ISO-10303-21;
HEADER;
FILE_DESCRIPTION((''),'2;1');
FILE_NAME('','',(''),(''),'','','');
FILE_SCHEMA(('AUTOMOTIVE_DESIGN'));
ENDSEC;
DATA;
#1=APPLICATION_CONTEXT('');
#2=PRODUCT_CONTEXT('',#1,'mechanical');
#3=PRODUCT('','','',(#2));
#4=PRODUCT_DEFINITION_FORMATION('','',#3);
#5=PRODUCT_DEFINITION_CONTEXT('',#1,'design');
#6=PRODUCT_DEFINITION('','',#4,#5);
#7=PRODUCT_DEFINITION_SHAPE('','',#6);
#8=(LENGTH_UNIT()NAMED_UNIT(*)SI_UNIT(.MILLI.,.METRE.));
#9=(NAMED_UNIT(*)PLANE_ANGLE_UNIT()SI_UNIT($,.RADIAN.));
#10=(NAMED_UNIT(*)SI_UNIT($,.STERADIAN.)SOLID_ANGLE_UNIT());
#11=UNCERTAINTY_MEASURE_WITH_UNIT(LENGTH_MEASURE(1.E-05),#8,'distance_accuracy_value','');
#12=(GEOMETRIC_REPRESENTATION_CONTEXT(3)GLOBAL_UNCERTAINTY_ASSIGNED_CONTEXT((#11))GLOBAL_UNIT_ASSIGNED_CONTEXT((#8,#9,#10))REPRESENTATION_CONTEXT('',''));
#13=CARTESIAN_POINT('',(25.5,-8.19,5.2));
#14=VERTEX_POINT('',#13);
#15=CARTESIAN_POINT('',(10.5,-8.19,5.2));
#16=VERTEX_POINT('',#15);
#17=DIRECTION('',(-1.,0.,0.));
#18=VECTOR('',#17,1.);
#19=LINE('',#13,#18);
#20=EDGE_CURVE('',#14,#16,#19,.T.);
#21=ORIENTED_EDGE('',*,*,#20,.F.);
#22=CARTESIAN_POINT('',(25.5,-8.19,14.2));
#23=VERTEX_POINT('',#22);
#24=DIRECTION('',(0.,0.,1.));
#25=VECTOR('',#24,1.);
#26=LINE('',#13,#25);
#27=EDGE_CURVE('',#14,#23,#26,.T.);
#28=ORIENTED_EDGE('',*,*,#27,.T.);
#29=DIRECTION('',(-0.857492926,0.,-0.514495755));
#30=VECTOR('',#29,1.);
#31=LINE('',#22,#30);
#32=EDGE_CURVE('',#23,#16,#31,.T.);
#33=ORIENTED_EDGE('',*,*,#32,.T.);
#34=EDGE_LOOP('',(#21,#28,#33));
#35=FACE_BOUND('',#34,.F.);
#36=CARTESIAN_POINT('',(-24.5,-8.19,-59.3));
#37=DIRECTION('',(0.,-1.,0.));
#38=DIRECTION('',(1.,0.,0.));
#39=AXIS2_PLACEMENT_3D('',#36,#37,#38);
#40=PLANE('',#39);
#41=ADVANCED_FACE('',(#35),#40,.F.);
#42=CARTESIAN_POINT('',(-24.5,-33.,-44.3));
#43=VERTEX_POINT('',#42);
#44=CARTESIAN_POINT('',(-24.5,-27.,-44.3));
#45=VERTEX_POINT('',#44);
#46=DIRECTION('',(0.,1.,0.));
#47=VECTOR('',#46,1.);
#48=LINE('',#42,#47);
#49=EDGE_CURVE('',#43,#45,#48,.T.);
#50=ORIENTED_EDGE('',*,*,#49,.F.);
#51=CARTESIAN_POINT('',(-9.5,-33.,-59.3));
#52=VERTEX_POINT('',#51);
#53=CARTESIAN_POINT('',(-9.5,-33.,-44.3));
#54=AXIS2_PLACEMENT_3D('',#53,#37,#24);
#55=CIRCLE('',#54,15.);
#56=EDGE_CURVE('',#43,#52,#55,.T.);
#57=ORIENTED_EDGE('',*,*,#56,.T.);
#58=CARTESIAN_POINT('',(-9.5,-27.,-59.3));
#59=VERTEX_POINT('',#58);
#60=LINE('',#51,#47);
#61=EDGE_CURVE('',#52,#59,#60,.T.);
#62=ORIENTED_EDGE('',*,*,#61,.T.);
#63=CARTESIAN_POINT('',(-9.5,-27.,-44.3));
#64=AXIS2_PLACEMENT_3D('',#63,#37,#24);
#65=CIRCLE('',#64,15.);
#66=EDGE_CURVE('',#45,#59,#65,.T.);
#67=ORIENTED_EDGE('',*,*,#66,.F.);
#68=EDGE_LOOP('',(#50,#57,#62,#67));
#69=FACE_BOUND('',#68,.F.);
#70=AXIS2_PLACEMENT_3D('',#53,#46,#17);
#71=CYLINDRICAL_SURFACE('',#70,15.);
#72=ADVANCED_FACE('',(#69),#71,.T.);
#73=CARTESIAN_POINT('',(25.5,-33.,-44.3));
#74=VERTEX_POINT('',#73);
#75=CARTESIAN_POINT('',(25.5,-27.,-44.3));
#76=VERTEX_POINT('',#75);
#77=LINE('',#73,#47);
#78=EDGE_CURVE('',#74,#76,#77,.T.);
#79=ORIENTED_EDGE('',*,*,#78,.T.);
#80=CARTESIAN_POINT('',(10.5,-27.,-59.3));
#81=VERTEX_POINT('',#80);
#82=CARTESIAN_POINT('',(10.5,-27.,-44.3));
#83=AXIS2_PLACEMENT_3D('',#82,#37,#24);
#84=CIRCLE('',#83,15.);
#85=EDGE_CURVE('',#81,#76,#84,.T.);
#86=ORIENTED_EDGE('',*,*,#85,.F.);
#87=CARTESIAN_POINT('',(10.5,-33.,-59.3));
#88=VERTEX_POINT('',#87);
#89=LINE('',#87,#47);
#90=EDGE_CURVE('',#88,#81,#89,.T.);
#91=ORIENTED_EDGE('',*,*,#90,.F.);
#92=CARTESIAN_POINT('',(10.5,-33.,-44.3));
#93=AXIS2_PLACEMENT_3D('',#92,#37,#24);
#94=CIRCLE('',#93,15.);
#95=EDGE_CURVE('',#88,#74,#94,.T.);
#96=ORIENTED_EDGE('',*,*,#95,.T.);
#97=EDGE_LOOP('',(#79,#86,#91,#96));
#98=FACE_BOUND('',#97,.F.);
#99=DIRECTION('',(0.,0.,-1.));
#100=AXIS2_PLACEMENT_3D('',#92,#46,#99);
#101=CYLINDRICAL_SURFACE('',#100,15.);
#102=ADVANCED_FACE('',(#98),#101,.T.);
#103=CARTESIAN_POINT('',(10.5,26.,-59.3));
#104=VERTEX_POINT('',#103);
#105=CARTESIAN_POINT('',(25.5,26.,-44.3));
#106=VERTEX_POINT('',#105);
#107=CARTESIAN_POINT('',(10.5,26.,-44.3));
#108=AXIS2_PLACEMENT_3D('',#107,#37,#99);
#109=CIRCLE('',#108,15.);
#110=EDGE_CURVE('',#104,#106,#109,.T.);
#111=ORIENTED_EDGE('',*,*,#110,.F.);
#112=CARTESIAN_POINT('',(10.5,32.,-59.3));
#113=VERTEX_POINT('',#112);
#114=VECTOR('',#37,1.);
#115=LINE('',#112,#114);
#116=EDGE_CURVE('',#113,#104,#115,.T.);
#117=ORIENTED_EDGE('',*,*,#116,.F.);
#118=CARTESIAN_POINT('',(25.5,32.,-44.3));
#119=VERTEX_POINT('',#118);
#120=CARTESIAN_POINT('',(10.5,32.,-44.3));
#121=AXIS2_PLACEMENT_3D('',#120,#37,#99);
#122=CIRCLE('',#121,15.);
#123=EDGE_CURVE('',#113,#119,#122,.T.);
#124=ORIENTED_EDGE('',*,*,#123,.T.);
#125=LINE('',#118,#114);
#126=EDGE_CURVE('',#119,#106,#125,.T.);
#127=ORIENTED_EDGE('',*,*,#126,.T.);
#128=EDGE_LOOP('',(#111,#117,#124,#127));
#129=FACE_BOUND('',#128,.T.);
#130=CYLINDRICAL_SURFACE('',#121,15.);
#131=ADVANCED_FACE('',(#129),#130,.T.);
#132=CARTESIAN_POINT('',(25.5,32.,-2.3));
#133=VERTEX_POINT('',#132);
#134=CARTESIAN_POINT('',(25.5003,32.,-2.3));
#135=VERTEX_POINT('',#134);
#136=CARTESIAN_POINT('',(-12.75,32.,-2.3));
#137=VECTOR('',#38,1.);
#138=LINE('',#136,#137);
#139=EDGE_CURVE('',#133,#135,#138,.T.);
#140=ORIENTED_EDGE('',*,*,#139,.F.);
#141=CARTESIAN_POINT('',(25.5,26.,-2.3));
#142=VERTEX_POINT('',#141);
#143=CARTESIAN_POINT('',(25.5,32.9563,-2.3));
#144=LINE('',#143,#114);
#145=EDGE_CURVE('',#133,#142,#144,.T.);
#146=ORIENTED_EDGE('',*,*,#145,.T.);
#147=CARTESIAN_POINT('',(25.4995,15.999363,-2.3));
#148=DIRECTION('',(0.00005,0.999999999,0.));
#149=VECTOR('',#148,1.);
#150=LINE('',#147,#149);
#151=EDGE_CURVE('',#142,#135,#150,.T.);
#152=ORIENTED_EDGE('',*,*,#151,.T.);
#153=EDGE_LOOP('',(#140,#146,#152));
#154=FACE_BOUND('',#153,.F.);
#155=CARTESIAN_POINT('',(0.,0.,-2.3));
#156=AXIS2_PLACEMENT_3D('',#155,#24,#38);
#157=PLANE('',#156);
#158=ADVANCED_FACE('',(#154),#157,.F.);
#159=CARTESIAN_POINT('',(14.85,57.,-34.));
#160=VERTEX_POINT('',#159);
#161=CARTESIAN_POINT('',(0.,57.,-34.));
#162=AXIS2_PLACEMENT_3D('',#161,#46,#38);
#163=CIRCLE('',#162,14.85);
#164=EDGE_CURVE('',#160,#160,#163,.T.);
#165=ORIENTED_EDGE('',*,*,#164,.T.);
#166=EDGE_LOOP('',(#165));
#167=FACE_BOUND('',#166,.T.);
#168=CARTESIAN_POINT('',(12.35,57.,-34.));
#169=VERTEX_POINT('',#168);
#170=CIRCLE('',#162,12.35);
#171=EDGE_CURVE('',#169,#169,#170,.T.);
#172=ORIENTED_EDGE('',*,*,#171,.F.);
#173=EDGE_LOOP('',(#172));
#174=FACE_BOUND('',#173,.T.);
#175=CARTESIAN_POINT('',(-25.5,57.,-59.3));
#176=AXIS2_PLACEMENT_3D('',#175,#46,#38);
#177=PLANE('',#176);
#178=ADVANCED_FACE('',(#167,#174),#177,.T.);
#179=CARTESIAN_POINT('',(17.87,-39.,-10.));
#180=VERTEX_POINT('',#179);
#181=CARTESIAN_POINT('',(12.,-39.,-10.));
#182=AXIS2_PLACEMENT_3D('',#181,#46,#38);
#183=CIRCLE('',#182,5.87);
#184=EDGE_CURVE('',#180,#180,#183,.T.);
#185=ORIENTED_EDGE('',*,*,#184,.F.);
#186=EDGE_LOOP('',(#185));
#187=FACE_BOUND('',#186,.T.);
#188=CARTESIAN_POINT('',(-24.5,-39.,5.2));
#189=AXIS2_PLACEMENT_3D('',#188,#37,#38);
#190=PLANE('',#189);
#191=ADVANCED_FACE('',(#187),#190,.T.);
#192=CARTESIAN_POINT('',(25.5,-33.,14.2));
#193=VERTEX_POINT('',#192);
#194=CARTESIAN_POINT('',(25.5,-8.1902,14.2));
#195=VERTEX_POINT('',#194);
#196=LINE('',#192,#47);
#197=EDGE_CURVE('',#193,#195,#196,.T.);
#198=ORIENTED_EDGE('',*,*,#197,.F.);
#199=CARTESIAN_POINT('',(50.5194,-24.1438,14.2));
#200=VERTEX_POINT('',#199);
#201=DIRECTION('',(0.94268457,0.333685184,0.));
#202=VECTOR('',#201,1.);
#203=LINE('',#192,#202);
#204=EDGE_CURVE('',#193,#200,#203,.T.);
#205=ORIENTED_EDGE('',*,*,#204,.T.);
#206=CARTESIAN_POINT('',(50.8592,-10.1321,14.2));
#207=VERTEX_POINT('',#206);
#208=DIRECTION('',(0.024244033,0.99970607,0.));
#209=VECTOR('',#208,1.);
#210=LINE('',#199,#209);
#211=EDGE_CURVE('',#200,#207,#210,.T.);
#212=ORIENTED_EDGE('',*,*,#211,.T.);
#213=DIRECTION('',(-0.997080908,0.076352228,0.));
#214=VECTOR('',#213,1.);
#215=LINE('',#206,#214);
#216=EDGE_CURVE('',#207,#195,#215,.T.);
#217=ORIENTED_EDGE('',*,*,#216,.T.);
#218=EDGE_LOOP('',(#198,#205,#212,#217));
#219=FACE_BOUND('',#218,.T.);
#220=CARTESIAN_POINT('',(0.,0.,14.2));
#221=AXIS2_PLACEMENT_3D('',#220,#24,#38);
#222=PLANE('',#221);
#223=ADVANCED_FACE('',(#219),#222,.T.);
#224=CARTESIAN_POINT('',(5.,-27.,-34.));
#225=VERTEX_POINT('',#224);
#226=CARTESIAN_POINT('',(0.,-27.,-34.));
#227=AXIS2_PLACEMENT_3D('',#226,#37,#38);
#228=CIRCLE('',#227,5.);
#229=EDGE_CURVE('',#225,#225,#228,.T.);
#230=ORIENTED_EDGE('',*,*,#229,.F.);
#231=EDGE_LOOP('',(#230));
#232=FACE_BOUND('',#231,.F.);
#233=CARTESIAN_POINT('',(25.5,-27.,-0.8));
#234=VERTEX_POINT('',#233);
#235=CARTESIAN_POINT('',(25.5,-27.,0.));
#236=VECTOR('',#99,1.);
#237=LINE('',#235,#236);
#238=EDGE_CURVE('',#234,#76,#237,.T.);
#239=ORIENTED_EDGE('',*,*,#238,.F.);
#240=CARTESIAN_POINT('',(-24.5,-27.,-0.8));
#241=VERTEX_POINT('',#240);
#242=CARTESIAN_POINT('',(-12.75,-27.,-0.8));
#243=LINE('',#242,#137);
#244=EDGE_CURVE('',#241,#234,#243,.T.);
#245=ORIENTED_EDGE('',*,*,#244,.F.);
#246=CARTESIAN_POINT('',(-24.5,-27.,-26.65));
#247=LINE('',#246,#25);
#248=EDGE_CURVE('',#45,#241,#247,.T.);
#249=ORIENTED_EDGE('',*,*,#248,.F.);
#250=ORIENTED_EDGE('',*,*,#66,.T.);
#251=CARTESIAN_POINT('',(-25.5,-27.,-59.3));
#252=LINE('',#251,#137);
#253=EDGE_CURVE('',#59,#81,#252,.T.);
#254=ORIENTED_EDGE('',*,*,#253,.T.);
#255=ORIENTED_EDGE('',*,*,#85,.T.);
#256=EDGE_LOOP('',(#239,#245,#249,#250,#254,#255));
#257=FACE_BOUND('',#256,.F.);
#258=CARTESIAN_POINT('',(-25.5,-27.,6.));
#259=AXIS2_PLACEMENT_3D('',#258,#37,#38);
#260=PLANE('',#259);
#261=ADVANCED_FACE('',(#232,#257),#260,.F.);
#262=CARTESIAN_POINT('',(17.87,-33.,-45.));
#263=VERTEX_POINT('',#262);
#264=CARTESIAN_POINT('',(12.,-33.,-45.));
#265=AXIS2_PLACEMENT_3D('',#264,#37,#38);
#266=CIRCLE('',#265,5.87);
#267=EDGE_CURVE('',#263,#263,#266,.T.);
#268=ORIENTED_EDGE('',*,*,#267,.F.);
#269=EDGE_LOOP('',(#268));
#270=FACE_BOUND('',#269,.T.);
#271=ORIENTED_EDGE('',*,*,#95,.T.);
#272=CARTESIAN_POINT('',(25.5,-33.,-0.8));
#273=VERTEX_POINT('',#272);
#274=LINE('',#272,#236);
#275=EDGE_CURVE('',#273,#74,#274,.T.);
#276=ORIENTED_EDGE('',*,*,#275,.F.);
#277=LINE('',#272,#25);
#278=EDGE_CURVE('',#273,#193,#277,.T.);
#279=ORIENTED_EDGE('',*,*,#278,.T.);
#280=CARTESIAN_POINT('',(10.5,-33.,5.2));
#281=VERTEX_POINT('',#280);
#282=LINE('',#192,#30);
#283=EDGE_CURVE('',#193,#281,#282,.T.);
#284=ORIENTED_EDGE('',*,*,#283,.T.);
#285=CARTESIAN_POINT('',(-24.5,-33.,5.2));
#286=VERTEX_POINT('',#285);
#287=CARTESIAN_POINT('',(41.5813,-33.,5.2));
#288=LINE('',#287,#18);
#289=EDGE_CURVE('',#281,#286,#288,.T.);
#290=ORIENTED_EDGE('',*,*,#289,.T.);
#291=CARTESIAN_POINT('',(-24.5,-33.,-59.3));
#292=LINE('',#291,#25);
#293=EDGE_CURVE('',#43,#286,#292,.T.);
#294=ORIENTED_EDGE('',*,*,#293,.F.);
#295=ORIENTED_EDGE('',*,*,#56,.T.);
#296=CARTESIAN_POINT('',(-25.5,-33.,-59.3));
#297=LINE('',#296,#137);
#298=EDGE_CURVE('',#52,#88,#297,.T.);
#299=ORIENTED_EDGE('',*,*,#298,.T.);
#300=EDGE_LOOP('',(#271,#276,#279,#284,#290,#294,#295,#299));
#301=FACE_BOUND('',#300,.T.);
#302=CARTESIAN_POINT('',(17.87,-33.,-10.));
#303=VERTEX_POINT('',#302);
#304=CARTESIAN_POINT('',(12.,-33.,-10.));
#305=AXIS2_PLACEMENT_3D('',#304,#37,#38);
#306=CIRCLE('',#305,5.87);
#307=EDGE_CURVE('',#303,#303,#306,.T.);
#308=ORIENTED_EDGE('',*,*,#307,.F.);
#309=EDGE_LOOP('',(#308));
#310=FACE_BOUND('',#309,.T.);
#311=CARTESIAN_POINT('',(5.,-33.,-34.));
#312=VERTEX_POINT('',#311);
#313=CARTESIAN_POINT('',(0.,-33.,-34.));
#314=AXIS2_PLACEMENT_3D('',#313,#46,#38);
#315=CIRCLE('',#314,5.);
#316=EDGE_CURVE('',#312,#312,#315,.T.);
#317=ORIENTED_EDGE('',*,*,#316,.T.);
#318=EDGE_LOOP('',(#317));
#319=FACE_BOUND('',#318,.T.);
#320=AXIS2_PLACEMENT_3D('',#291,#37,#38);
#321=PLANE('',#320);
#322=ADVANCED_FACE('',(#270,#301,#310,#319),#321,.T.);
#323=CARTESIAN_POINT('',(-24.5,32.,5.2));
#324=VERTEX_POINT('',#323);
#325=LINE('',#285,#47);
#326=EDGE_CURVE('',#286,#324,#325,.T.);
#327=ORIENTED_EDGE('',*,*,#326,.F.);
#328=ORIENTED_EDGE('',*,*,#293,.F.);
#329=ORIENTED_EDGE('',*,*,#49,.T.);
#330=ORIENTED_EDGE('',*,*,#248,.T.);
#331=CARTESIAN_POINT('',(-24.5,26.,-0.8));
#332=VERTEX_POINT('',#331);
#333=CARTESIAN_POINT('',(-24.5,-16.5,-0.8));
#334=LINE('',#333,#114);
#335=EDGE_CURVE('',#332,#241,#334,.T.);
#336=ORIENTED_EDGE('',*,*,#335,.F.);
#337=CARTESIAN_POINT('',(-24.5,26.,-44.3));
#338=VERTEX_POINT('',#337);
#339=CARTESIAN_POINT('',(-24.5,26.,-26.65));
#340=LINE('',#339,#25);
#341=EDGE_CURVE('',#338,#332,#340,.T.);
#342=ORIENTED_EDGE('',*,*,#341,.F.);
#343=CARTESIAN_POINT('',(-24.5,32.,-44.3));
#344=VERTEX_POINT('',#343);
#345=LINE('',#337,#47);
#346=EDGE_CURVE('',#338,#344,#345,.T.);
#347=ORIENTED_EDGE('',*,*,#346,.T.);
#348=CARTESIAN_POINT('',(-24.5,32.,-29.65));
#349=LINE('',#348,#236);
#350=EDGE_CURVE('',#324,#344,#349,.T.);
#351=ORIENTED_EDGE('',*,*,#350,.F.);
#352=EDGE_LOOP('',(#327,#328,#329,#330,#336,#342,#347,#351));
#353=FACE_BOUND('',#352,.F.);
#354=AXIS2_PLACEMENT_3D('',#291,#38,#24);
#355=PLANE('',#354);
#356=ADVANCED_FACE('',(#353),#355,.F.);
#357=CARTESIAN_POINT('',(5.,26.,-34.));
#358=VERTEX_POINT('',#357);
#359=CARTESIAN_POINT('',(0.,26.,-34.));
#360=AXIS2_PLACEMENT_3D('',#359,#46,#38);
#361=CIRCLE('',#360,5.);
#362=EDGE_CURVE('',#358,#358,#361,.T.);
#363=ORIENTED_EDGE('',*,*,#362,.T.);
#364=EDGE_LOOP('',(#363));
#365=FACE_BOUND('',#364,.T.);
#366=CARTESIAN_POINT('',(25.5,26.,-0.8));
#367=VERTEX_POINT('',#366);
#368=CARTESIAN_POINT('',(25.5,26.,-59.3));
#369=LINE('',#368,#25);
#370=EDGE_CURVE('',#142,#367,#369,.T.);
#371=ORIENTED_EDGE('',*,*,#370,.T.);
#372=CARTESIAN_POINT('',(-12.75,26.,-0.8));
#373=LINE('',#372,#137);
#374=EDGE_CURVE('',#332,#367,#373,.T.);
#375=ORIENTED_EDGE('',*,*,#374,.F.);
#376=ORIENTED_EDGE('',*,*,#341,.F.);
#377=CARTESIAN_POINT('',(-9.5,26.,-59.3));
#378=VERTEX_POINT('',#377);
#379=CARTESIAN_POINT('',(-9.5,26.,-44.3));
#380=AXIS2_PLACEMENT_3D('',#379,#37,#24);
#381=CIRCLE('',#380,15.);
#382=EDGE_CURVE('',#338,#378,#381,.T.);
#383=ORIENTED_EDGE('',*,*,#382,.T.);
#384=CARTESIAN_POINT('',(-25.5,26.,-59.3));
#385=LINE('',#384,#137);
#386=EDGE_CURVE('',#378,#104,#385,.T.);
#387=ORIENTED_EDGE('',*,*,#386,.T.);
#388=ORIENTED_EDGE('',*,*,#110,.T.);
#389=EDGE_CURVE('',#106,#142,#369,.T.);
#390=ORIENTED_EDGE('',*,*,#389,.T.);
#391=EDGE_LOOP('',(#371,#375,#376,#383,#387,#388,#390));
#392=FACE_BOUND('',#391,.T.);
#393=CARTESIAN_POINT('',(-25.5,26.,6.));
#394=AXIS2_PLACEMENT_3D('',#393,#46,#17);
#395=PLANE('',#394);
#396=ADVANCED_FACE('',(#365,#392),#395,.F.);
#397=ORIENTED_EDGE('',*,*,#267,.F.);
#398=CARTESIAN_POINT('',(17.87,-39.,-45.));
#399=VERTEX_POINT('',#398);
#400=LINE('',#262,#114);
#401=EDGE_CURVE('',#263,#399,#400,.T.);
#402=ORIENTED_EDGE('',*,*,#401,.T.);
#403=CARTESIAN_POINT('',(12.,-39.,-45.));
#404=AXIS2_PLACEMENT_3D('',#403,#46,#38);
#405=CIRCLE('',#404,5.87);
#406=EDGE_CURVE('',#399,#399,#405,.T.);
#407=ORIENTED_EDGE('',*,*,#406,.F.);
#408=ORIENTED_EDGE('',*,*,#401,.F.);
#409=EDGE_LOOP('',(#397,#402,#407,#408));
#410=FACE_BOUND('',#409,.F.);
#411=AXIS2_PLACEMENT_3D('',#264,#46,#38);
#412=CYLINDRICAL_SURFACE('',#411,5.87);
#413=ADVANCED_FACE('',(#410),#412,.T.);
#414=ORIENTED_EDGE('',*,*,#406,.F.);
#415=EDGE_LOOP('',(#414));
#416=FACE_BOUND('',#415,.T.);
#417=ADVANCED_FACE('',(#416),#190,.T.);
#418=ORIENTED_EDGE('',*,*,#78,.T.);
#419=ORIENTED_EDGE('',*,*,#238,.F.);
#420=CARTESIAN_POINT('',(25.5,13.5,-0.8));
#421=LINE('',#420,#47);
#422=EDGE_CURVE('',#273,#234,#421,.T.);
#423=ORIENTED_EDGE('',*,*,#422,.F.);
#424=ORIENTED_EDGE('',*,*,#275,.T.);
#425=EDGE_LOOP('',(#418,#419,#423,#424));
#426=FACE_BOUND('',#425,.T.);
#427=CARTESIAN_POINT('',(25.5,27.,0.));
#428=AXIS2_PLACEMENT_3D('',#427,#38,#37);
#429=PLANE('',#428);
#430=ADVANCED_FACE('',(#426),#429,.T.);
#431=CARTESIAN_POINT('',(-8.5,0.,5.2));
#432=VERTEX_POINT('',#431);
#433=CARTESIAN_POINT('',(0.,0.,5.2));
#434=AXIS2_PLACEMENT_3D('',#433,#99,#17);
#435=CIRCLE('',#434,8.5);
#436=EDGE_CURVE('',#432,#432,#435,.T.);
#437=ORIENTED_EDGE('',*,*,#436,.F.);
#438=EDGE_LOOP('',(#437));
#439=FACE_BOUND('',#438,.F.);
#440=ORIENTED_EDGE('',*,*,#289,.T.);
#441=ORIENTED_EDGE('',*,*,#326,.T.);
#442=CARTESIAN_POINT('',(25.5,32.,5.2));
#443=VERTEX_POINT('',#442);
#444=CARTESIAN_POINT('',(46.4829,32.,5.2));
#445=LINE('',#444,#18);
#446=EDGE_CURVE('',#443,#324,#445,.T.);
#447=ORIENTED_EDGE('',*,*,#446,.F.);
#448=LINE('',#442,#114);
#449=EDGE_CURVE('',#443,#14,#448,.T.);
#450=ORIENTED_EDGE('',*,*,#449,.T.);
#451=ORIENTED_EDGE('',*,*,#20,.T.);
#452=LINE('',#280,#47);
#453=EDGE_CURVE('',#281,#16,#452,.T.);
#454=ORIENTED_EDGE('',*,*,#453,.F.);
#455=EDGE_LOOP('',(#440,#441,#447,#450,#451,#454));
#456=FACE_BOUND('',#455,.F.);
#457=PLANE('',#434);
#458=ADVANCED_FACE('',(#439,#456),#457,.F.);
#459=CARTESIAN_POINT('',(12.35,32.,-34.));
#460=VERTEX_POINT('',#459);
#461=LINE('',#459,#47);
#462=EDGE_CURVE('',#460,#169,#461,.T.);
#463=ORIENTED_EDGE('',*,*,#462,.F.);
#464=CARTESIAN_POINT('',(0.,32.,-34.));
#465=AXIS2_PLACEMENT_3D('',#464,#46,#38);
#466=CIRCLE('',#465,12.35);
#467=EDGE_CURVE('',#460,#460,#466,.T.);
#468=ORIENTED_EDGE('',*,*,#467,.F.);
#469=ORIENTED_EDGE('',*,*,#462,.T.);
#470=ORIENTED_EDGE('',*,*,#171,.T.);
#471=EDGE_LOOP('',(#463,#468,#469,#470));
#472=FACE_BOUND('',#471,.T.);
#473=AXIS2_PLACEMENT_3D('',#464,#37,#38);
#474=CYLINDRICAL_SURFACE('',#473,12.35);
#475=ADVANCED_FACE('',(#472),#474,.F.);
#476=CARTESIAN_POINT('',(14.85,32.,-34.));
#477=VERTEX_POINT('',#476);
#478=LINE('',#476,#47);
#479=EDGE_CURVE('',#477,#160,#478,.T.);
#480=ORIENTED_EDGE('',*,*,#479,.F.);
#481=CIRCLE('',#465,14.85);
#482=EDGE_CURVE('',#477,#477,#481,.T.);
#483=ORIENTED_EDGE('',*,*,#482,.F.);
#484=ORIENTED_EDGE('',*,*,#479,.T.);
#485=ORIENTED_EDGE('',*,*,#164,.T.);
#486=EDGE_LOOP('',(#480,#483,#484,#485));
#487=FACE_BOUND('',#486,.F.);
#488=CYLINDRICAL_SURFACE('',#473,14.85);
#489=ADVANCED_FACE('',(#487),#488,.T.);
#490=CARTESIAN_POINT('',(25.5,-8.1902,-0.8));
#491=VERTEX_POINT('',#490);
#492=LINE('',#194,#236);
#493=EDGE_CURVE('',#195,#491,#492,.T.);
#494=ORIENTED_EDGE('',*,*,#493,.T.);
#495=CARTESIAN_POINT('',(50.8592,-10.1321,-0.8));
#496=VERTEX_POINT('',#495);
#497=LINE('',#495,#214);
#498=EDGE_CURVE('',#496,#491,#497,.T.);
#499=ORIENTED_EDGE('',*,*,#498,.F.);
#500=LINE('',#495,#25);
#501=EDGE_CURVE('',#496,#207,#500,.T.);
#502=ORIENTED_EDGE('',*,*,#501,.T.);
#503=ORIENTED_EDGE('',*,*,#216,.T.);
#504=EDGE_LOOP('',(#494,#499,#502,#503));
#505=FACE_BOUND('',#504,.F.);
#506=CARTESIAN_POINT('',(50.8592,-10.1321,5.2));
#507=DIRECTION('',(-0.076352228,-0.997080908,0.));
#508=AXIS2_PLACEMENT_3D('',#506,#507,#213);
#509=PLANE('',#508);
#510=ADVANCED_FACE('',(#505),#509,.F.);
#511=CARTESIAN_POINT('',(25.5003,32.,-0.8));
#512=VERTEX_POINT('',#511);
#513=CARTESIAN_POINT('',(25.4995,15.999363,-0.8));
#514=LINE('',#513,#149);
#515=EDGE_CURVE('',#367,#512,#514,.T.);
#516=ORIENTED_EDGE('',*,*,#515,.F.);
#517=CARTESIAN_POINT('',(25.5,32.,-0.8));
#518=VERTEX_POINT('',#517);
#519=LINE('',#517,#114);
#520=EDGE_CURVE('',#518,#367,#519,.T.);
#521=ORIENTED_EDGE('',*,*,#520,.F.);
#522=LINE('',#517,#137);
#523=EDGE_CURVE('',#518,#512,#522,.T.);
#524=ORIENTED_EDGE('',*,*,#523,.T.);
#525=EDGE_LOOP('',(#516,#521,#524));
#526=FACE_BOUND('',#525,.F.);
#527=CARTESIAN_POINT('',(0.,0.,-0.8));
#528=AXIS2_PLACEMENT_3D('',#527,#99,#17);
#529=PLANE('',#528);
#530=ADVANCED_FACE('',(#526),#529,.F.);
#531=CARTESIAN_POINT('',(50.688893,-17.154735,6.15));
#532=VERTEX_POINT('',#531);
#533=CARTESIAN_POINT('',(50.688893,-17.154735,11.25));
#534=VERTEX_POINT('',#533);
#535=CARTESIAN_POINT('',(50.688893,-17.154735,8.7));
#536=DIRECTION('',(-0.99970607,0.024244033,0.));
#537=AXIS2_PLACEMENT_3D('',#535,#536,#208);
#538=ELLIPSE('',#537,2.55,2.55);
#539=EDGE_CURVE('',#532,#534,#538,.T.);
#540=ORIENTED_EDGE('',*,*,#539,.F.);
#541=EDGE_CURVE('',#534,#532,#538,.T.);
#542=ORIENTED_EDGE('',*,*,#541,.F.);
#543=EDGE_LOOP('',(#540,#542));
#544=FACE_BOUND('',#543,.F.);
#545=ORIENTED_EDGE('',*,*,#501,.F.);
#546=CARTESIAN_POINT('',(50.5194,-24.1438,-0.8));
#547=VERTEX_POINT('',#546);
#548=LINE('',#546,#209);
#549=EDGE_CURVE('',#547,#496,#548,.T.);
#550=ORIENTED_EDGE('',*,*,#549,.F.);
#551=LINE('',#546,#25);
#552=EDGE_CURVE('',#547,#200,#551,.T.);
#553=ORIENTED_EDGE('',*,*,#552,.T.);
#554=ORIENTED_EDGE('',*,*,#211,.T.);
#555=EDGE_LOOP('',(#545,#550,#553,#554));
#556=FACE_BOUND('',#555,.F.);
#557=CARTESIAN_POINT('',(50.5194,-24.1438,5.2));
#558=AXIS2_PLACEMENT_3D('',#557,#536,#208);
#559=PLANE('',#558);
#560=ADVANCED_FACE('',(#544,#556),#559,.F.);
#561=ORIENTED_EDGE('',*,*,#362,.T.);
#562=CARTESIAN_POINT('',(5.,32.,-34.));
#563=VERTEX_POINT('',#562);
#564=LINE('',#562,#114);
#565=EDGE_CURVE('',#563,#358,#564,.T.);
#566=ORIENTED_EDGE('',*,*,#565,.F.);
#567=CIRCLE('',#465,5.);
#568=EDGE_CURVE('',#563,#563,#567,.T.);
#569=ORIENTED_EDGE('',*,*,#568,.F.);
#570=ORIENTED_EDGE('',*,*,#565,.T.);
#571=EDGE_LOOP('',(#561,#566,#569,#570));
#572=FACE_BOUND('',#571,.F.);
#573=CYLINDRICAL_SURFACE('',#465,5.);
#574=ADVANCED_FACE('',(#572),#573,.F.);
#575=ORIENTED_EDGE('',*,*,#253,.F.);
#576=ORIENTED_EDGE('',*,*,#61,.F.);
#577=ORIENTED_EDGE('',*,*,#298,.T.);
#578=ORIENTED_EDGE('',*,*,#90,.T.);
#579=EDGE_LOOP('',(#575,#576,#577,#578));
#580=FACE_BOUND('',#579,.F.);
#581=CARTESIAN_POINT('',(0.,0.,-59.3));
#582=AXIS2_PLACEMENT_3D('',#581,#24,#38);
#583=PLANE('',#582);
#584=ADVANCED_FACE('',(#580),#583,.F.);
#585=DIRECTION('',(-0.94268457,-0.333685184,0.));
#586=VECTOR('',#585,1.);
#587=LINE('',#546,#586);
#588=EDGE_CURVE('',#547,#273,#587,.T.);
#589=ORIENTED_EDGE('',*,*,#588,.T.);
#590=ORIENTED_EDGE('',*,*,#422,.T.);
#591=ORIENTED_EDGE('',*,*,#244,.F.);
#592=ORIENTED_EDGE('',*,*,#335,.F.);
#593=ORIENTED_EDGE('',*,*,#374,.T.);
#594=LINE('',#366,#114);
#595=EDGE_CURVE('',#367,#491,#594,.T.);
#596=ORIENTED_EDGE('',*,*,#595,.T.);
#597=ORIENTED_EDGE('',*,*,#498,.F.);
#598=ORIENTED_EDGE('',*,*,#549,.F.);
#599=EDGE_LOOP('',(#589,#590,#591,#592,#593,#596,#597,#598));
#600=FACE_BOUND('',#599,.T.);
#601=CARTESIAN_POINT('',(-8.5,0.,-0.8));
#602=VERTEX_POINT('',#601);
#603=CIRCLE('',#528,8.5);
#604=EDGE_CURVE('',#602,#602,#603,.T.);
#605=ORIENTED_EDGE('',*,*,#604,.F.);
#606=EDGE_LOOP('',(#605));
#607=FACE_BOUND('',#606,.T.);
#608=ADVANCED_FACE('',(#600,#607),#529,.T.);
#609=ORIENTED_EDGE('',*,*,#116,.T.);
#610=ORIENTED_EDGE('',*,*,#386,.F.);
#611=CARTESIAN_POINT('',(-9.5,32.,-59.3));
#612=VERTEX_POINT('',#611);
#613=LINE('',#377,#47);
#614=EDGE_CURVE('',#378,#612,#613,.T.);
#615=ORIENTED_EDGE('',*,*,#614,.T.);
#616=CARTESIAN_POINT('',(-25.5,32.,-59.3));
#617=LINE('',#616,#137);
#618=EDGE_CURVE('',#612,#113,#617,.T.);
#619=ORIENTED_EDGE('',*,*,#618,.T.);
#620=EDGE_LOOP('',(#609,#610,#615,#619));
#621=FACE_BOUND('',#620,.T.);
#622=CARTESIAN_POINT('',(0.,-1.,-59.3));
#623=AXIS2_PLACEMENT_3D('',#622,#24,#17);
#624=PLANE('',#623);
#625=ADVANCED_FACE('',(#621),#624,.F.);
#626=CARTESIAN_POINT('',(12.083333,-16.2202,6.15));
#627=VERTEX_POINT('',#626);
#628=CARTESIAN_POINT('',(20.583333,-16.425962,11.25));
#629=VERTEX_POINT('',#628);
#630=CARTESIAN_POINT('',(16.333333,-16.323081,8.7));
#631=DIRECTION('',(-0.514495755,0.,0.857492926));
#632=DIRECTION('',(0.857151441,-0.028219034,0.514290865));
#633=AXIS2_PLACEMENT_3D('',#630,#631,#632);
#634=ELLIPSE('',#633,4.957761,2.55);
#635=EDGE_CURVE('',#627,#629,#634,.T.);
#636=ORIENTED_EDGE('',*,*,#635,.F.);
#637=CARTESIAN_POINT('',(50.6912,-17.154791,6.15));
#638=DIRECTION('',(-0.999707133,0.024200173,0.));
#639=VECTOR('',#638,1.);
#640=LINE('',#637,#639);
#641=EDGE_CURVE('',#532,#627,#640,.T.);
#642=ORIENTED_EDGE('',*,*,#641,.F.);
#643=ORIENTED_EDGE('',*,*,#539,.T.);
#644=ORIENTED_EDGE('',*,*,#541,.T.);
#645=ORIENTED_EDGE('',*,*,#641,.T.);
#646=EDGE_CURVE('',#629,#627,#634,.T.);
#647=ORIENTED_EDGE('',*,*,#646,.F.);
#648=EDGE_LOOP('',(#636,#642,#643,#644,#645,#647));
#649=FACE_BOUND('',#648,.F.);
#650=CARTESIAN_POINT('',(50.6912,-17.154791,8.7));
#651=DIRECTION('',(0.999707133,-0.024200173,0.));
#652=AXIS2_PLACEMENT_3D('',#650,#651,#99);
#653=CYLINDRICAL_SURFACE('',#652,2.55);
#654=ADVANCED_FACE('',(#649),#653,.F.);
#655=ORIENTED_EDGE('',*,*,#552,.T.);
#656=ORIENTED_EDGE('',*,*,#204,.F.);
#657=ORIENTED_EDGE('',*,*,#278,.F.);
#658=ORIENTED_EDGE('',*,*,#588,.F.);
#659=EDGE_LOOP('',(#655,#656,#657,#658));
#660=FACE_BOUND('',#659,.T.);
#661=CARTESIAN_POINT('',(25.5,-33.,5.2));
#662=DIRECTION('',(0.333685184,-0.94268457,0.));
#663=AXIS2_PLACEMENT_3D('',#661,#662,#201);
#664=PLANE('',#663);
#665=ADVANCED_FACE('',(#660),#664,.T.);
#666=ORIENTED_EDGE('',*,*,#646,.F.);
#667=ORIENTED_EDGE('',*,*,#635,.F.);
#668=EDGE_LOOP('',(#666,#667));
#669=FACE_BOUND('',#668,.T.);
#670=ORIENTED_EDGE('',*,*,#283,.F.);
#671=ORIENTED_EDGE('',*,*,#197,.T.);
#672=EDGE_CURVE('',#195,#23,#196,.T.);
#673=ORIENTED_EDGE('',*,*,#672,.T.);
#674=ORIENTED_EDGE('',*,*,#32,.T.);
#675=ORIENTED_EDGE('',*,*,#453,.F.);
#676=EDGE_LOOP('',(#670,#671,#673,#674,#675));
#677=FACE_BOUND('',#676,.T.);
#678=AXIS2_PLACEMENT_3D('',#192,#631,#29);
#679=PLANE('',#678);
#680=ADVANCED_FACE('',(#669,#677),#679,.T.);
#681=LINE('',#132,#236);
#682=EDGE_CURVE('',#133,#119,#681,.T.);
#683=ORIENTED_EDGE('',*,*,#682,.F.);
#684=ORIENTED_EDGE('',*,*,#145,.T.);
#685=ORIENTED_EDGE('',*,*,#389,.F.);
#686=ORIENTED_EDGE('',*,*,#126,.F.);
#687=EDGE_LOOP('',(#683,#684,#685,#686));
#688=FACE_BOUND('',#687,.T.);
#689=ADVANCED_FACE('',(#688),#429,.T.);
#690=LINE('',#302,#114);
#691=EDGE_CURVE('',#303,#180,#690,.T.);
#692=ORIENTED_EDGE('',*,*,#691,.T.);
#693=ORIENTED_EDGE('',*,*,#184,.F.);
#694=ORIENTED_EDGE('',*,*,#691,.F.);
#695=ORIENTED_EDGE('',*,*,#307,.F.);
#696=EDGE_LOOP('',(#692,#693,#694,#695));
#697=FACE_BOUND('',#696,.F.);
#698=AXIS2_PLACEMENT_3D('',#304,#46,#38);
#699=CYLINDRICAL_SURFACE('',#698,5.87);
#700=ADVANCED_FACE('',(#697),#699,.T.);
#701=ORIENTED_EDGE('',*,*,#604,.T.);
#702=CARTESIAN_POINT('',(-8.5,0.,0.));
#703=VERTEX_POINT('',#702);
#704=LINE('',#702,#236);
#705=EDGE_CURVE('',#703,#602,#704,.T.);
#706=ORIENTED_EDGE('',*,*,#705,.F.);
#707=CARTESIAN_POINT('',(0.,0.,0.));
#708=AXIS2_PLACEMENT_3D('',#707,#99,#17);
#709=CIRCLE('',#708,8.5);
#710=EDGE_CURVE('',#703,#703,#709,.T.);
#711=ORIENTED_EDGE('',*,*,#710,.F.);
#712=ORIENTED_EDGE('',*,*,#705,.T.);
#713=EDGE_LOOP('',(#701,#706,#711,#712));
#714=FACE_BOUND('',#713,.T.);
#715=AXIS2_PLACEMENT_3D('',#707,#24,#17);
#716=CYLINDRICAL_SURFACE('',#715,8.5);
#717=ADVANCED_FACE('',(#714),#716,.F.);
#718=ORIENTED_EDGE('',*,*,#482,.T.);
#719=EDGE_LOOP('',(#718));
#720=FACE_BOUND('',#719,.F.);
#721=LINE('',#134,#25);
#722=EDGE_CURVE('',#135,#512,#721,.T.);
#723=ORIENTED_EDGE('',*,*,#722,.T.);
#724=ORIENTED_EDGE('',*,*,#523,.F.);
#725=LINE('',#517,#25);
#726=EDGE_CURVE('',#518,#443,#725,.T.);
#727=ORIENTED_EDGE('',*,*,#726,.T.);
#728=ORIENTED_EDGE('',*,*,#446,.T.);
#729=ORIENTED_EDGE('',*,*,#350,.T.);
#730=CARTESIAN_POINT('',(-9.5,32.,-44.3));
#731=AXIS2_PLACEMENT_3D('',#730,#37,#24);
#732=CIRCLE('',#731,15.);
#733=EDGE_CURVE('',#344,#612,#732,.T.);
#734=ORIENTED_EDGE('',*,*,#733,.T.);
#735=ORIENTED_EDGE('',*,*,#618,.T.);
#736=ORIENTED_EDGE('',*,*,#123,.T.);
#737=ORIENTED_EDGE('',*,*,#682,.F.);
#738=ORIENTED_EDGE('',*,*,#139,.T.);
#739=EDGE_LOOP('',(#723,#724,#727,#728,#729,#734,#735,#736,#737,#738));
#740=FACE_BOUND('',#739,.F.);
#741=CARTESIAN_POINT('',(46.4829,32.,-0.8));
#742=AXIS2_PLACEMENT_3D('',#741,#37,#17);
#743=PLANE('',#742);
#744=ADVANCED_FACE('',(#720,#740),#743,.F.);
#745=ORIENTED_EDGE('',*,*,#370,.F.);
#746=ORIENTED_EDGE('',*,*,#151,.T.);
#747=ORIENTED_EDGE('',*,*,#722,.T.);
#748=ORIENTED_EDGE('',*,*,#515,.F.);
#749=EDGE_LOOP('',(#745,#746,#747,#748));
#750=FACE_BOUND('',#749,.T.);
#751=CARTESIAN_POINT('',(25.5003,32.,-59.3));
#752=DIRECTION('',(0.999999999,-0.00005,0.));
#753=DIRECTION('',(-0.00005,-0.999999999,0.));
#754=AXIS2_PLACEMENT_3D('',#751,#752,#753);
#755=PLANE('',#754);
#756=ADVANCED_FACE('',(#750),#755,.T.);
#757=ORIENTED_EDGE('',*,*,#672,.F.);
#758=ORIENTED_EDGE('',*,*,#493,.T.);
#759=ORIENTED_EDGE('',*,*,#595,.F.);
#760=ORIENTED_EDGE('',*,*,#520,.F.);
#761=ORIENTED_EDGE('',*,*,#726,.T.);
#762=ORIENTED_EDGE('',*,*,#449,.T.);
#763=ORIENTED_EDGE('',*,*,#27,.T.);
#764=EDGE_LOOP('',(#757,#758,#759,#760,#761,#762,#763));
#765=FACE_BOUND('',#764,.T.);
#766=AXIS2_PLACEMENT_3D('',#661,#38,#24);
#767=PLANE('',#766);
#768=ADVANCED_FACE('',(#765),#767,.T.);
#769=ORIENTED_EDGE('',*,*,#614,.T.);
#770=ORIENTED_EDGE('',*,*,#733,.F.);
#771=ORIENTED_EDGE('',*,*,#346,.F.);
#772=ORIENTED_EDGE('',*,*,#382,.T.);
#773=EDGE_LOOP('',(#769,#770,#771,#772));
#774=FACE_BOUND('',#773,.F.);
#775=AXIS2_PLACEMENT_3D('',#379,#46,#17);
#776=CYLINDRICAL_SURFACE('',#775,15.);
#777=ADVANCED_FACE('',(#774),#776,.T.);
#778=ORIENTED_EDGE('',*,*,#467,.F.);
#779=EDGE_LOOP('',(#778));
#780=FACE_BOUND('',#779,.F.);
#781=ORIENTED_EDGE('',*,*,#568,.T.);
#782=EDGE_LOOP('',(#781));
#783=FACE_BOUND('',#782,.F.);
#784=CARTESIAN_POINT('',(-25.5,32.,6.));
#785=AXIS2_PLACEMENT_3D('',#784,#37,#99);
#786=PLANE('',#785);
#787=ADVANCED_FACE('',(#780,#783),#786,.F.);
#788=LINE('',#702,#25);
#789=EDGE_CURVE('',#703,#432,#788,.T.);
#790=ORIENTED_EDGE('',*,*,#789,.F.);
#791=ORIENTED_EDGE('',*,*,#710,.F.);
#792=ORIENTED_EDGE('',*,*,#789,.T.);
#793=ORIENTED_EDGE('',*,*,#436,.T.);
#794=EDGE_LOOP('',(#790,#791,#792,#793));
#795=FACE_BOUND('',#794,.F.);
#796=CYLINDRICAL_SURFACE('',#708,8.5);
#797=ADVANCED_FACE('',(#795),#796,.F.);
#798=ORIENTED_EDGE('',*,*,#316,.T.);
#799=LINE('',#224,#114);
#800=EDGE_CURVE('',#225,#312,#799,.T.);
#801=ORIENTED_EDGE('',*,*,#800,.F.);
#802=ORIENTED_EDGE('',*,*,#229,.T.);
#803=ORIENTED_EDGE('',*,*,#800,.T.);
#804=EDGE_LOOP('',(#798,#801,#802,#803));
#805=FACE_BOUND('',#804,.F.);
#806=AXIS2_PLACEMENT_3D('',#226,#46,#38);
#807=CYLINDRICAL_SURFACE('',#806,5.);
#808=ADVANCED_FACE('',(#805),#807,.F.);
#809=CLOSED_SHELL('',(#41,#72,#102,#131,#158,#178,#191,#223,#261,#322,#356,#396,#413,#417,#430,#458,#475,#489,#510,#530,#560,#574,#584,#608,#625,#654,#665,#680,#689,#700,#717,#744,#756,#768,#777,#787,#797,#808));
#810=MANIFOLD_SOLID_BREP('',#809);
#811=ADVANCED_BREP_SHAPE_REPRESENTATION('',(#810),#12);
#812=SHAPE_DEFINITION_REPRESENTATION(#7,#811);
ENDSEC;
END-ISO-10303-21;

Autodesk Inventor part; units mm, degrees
sketch "Sketch1" plane through (0, 0, 0) normal (0, 0, 1) x (1, 0, 0)
  line L0 (25.5, -27) -> (-25.5, -27)
  line L1 (-25.5, -27) -> (-25.5, 27)
  line L2 (-25.5, 27) -> (25.5, 27)
  line L3 (25.5, 27) -> (25.5, -27)
  line L4 (25.5, -27) -> (-25.5, 27) construction
  line L5 (-25.5, -27) -> (25.5, 27) construction
  point P0 (0, 0)
  dimension "d0" = 51
  dimension "d1" = 54
extrude "Extrusion1" add sketch "Sketch1" along normal blind 6
sketch "Sketch2" plane through (0, 0, 6) normal (0, 0, 1) x (1, 0, 0)
  circle A0 centre (0, 0) radius 15
  dimension "d4" = 30
sketch "Sketch4" plane through (0, 0, 6) normal (0, 0, 1) x (1, 0, 0)
  line L0 (-25.5, 27) -> (26.5, 27)
  line L1 (-25.5, -27) -> (25.5, -27) projected
  line L2 (25.5, -27) -> (-25.5, -27)
  line L3 (-25.5, -27) -> (-25.5, -33)
  line L4 (-25.5, -33) -> (25.5, -33)
  line L5 (25.5, -33) -> (25.5, -27)
  point P0 (0, 0)
  dimension "d109" = 51
  dimension "d110" = 6
extrude "Extrusion4" add sketch "Sketch4" against normal blind 65.3
ref_plane "Plano de trabajo8" through (25.5, -33.8, -42) normal (1, 0, 0) x (0, 0, -1)
ref_plane "Work Plane9" through (-10.5, -27, -57) normal (0, 1, 0) x (1, 0, 0)
sketch "Sketch25" plane through (-10.5, -27, -57) normal (0, 1, 0) x (1, 0, 0)
  line L0 (0, 0) -> (21, 0) projected
  line L1 (10.5, 0) -> (10.5, -23)
  circle A0 centre (10.5, -23) radius 5
  line L2 (10.5, -23) -> (10.5, -63)
  line L3 (36, -63) -> (-15, -63) projected
  point P0 (10.5, -57)
  dimension "d111" = 23
  dimension "d112" = 10
extrude "Extrusion22" cut sketch "Sketch25" against normal blind 68
ref_plane "Work Plane7" through (-10.5, -0.5, -57) normal (0, 1, 0) x (1, 0, 0)
mirror "Mirror2" about plane through (-10.5, -0.5, -57) normal (0, 1, 0) of "Extrusion4"
extrude "Extrusión28" cut sketch "Sketch2" against normal blind 10
ref_plane "Work Plane10" through (25.5, -34, -42) normal (1, 0, 0) x (0, 0, -1)
ref_plane "Work Plane11" through (-25.5, -87, 1.3) normal (0, 1, 0) x (1, 0, 0)
sketch "Sketch37" plane through (-25.5, 32, 6) normal (0, 1, 0) x (1, 0, 0)
  circle A0 centre (25.5, 40) radius 5 projected
  point P0 (25.5, 6)
extrude "Extrusion33" cut sketch "Sketch37" against normal blind 68
sketch "Sketch43" plane through (0, 0, 6) normal (0, 0, 1) x (1, 0, 0)
  circle A0 centre (0, 0) radius 10.4895
  circle A1 centre (0, 0) radius 15 projected
  circle A2 centre (0, 0) radius 5
  dimension "d182" = 10
extrude "Extrusion40" add sketch "Sketch43" against normal blind 8.3 contours A0 | A1
sketch "Boceto48" plane through (-25.5, -33, 6) normal (0, -1, 0) x (1, 0, 0)
  point P0 (25.5, -6)
sketch "Boceto49" plane through (-25.5, -33, 6) normal (0, -1, 0) x (1, 0, 0)
  point P0 (25.5, -6)
sketch "Boceto50" plane through (25.5, 26, -59.3) normal (0, 0, -1) x (-1, 0, 0)
  point P0 (25.5, -26)
sketch "Boceto77" plane through (0, 0, 6) normal (0, 0, 1) x (1, 0, 0)
  point P0 (0, 0)
sketch "Boceto84" plane through (25.5, -33, -59.3) normal (1, 0, 0) x (0, 0, -1)
  line L0 (-65.3, 0) -> (-65.3, 65) projected
  line L1 (-65.3, 0) -> (-65.3, 32.3804)
  line L2 (-65.3, 32.3804) -> (-80.5662, 32.3804)
  line L3 (-80.5662, 32.3804) -> (-80.5662, -6.9517)
  line L4 (-80.5662, -6.9517) -> (-65.3, -6.9517)
  line L5 (-65.3, -6.9517) -> (-65.3, 0)
  point P0 (-59.3, 33)
  point P1 (-65.3, 66.9563)
  point P2 (-65.3, 65.9563)
extrude "Extrusión80" cut sketch "Boceto84" along normal mid plane 100
sketch "Boceto85" plane through (0, 0, 0) normal (0, 0, -1) x (-1, 0, 0)
  line L0 (-25.5, -33) -> (-25.5, -4.0448)
  line L1 (-25.5, -27) -> (-25.5, 26) projected
  line L2 (-25.5, -4.0448) -> (-53.9802, -4.6672)
  line L3 (-53.9802, -4.6672) -> (-54.6281, -33.6366)
  line L4 (-54.6281, -33.6366) -> (-25.5, -33)
  point P0 (0, 0)
  point P1 (-25.5, -13.7947)
extrude "Extrusión81" cut sketch "Boceto85" along normal mid plane 100
sketch "Boceto90" plane through (0, 0, 6) normal (0, 0, 1) x (1, 0, 0)
  circle A0 centre (0, 0) radius 5.2249
  circle A1 centre (0, 0) radius 14.4421
extrude "Extrusión86" add sketch "Boceto90" along normal blind 4.7
fillet "Empalme20" radius 2 1 edges at (-14.4421, 0, 6)
sketch "Boceto91" plane through (0, 0, 0) normal (0, 0, -1) x (-1, 0, 0)
  point P0 (0, 0)
sketch "Boceto92" plane through (0, 0, 0) normal (0, 0, -1) x (-1, 0, 0)
  point P0 (0, 0)
sketch "Boceto93" plane through (0, 0, 0) normal (0, 0, -1) x (-1, 0, 0)
  line L0 (-25.5, -27) -> (-25.5, 26) projected
  line L1 (-25.5, 1.3668) -> (-41.5813, 1.3668)
  line L2 (-41.5813, 1.3668) -> (-41.5813, -33)
  line L3 (-25.5, -33) -> (-41.5813, -33)
  line L4 (-25.5, -33) -> (-25.5, 32.9563) projected
  line L5 (-25.5, 1.3668) -> (-25.5, -33)
  point P0 (0, 0)
extrude "Extrusión87" add sketch "Boceto93" against normal blind 8.3
sketch "Boceto94" plane through (0, 0, 6) normal (0, 0, 1) x (1, 0, 0)
  line L0 (41.5813, -33) -> (41.5813, 1.3668) projected
  line L1 (41.5813, 1.3668) -> (41.5813, 35.5236)
  line L2 (-25.5, 32.9563) -> (25.5, 32.9563) projected
  line L3 (25.5, 32.9563) -> (41.5813, 32.9563)
  line L4 (25.5, 32.9563) -> (25.5, 1.3668)
  line L5 (25.5, 1.3668) -> (41.5813, 1.3668)
  point P0 (0, 0)
extrude "Extrusión88" add sketch "Boceto94" against normal blind 8.3
sketch "Boceto95" plane through (0, 0, 6) normal (0, 0, 1) x (1, 0, 0)
  circle A0 centre (37.8913, -24.81) radius 2.6
  line L0 (35.2913, -24.81) -> (37.8913, -24.81)
  point P0 (0, 0)
  point P1 (41.5813, -33)
  dimension "d305" = 5.2
extrude "Extrusión89" cut sketch "Boceto95" against normal blind 8.3
sketch "Boceto97" plane through (-25.5, -33, -59.3) normal (-1, 0, 0) x (0, 0, 1)
  line L0 (59.3, 0) -> (67.6, 0) projected
  line L1 (67.6, 0) -> (89.1392, 0)
  line L2 (89.1392, 0) -> (89.1392, 69.8717)
  line L3 (89.1392, 69.8717) -> (67.6, 69.8717)
  line L4 (67.6, 69.8717) -> (67.6, 0)
  point P0 (59.3, 33)
extrude "Extrusión92" cut sketch "Boceto97" against normal blind 1000
sketch "Boceto98" plane through (-25.5, -33, -59.3) normal (-1, 0, 0) x (0, 0, 1)
  line L0 (59.3, 59) -> (59.3, 6) projected
  line L1 (59.3, 59) -> (58.3, 59) projected
  line L2 (59.3, 6) -> (59.3, 59)
  line L3 (59.3, 59) -> (56.1979, 59)
  line L4 (59.3, 59) -> (0, 59) projected
  line L5 (56.1979, 59) -> (56.1979, 6)
  line L6 (59.3, 6) -> (0, 6) projected
  line L7 (56.1979, 6) -> (59.3, 6)
  line L8 (65.3, 65) -> (0, 65) projected
  line L9 (56.1979, 65) -> (56.1979, 67.4992)
  line L10 (56.1979, 67.4992) -> (67.7631, 67.4992)
  line L11 (67.7631, 67.4992) -> (76.364, 67.4992)
  line L12 (76.364, 67.4992) -> (76.364, -7.6447)
  line L13 (65.3, 0) -> (65.3, 34.3668) projected
  line L14 (65.3, 0) -> (65.3, -7.6447)
  line L15 (65.3, -7.6447) -> (76.364, -7.6447)
  line L16 (65.3, 0) -> (65.3, 65)
  line L17 (65.3, 0) -> (65.3, 65) projected
  line L18 (56.1979, 65) -> (65.3, 65)
  point P0 (59.3, 33)
  point P1 (59.3, 51.8098)
  point P2 (58.3, 65)
  point P3 (65.3, 65.9563)
  point P4 (59.3, 51.8098)
  point P5 (58.3, 65)
  point P6 (65.3, 34.3668)
extrude "Extrusión93" cut sketch "Boceto98" along normal mid plane 1000
sketch "Boceto99" plane through (41.5813, -33, 0) normal (1, 0, 0) x (0, 0, -1)
  line L0 (0, 58.9816) -> (2.3, 58.9816)
  line L1 (2.3, 65) -> (2.3, 59) projected
  line L2 (2.3, 58.9816) -> (2.3, 65)
  line L3 (2.3, 65) -> (2.3, 58.9816)
  line L4 (2.3, 65) -> (0, 65)
  line L5 (-6, 65) -> (59.3, 65) projected
  line L6 (0, 58.9816) -> (0, 65)
  point P0 (0, 33)
extrude "Extrusión94" cut sketch "Boceto99" against normal blind 16.081
sketch "Boceto100" plane through (25.5, 26, -59.3) normal (0, 0, -1) x (-1, 0, 0)
  line L0 (-16.0813, 6) -> (-0.0003, 6) projected
  line L1 (0, 0) -> (-16.0813, 0)
  line L2 (-16.0813, 0) -> (-16.0813, 6)
  line L3 (-16.0813, 6) -> (0, 6)
  line L4 (0, 6) -> (0, 0)
  point P0 (25.5, -26)
  point P1 (-0.0003, 6)
extrude "Extrusión95" cut sketch "Boceto100" against normal blind 59.3
sketch "Boceto101" plane through (0, 0, 0) normal (0, 0, -1) x (-1, 0, 0)
  circle A0 centre (0, 0) radius 8.5
  dimension "d322" = 17
extrude "Extrusión96" cut sketch "Boceto101" against normal blind 59.3
sketch "Boceto102" plane through (-25.5, 32, -59.3) normal (0, 1, 0) x (1, 0, 0)
  circle A0 centre (25.5, -25.3) radius 5 projected
  circle A1 centre (25.5, -25.3) radius 12.35
  circle A2 centre (25.5, -25.3) radius 14.85
  point P0 (25.5, -59.3)
  dimension "d325" = 24.7
  dimension "d326" = 29.7
extrude "Extrusión97" add sketch "Boceto102" along normal blind 25 contours A2
sketch "Boceto103" plane through (-25.5, -27, -59.3) normal (0, 1, 0) x (1, 0, 0)
  point P0 (25.5, -59.3)
sketch "Boceto104" plane through (0, 0, 6) normal (0, 0, 1) x (1, 0, 0)
  line L0 (-25.5, -33) -> (-25.5, 32) projected
  line L1 (41.5813, 32) -> (41.5813, -33) projected
  line L2 (-25.5, 32) -> (41.5813, 32)
  line L3 (41.5813, 32) -> (41.5813, -33)
  line L4 (41.5813, -33) -> (-25.5, -33)
  line L5 (-25.5, -33) -> (-25.5, 32)
  point P0 (0, 0)
extrude "Extrusión98" cut sketch "Boceto104" against normal blind 0.8
sketch "Boceto105" plane through (0, 0, 0) normal (0, 0, -1) x (-1, 0, 0)
  line L0 (-25.5, -33) -> (25.5, -33) projected
  line L1 (-41.5813, 32) -> (25.5, 32)
  line L2 (25.5, 32) -> (25.5, -33)
  line L3 (25.5, -33) -> (-41.5813, -33)
  line L4 (-41.5813, -33) -> (-41.5813, 32)
  circle A0 centre (-37.8913, -24.81) radius 2.6 projected
  circle A1 centre (-37.8913, -24.81) radius 2.6
  circle A2 centre (0, 0) radius 8.5
extrude "Extrusión99" add sketch "Boceto105" along normal blind 0.8
sketch "Boceto106" plane through (-25.5, -33, -59.3) normal (0, -1, 0) x (1, 0, 0)
  line L0 (0, 0) -> (51, 0) projected
  line L1 (67.0813, 64.5) -> (0, 64.5) projected
  line L2 (0, 0) -> (1, 0)
  line L3 (1, 0) -> (1, 64.5)
  line L4 (1, 64.5) -> (0, 64.5)
  line L5 (0, 64.5) -> (0, 0)
  point P0 (25.5, 59.3)
  point P1 (0, 64.5)
  point P2 (1, 0)
  dimension "d333" = 1
extrude "Extrusión100" cut sketch "Boceto106" against normal blind 1000
sketch "Boceto107" plane through (0, 0, -0.8) normal (0, 0, -1) x (-1, 0, 0)
  line L0 (-25.5, -33) -> (-25.5, -38.9196)
  line L1 (-25.5, -38.9196) -> (-33.0828, -52.767)
  line L2 (-33.0828, -52.767) -> (-34.3078, -45.7968) construction
  line L3 (-41.5813, -33) -> (24.5, -33) projected
  spline S0 degree 3 poles (-33.0828, -52.767) (-34.3078, -45.7968) (-36.0426, -41.6296) (-38.17, -38.0712) knots 1 1 1 1 1.670244 1.670244 1.670244 1.670244
  line L4 (-41.5813, 32) -> (-41.5813, -33) projected
  line L5 (-37.8729, -38.2076) -> (-46.4829, -34.2556)
  line L6 (-46.4829, -34.2556) -> (-46.4829, 32)
  line L7 (-46.4829, 32) -> (-41.5813, 32)
  line L8 (-34.3078, -45.7968) -> (-36.0426, -41.6296) construction
  line L9 (-36.0426, -41.6296) -> (-38.17, -38.0712) construction
  point P0 (0, 0)
extrude "Extrusión101" add sketch "Boceto107" against normal blind 6
fillet "Empalme21" radius 2 2 edges at (38.17, -38.0712, 2.2) (46.4829, -34.2556, 2.2)
sketch "Boceto108" plane through (-24.5, -33, 5.2) normal (0, -1, 0) x (1, 0, 0)
  circle A0 centre (24.5, -39.2) radius 5 projected
  line L0 (50, -6) -> (0, -6) projected
  circle A1 centre (36.5, -15.2) radius 5.87
  circle A2 centre (36.5, -50.2) radius 5.87
  line L1 (36.5, -15.2) -> (36.5, -50.2)
  point P0 (24.5, -5.2)
  dimension "d344" = 11.74
  dimension "d345" = 11.74
  dimension "d392" = 35
extrude "Extrusión102" add sketch "Boceto108" along normal blind 6 contours A1 | A2
sketch "Boceto109" plane through (0, 0, -0.8) normal (0, 0, -1) x (-1, 0, 0)
  line L0 (-45.3172, -34.7906) -> (-38.7421, -37.8086) projected
  line L1 (-45.3172, -34.7906) -> (-49.6596, -32.7974)
  line L2 (-49.6596, -32.7974) -> (-49.6596, 32)
  line L3 (-46.4829, 32) -> (-46.4829, -32.9729) projected
  line L4 (-49.6596, 32) -> (-46.4829, 32)
  arc A0 (-46.4829, -32.9729) -> (-45.3172, -34.7906) centre (-44.4829, -32.9729) ccw projected
  line L5 (-46.4829, 32) -> (-45.3172, -34.7906)
  point P0 (0, 0)
extrude "Extrusión103" add sketch "Boceto109" against normal blind 6 contours L1 L2 L4 L3 A0
fillet "Empalme23" radius 4 2 edges at (49.6596, -32.7974, 2.2) (49.6596, 32, 2.2)
sketch "Boceto110" plane through (0, 0, 5.2) normal (0, 0, 1) x (1, 0, 0)
  line L0 (33.0828, -52.767) -> (25.5, -38.9196) projected
  line L1 (25.5, -38.9196) -> (37.9157, -38.9196)
  line L2 (37.9157, -38.9196) -> (33.0828, -52.767)
  line L3 (33.0828, -52.767) -> (25.5, -38.9196)
  point P0 (0, 0)
extrude "Extrusión104" cut sketch "Boceto110" against normal blind 10
sketch "Sketch111" plane through (0, 0, 5.2) normal (0, 0, 1) x (1, 0, 0)
  line L0 (25.5, -33) -> (25.5, -38.9196) projected
  line L1 (38.7421, -37.8086) -> (47.3283, -33.8675) projected
  line L2 (25.5, -33) -> (47.3283, -33.8675)
  line L3 (37.6774, -38.9196) -> (25.5, -38.9196) projected
  line L4 (25.5, -38.9196) -> (37.6774, -38.9196)
  line L5 (37.6774, -38.9196) -> (38.7421, -37.8086)
  point P0 (0, 0)
extrude "Extrusion105" cut sketch "Sketch111" against normal blind 10
sketch "Sketch114" plane through (0, 0, -0.8) normal (0, 0, -1) x (-1, 0, 0)
  line L0 (-25.5, 32) -> (-25.5, 26) projected
  line L1 (-25.5, 26) -> (-25.5, 32)
  line L2 (-25.5, 32) -> (-25.5, -13.2226)
  line L3 (-25.5, -13.2226) -> (-49.6596, -13.2226)
  line L4 (-49.6596, -30.2322) -> (-49.6596, 28) projected
  line L5 (-49.6596, 28) -> (-49.6596, -30.2322) projected
  line L6 (-49.6596, -13.2226) -> (-49.6596, 28)
  line L7 (-25.5, 32) -> (-45.6596, 32) projected
  arc A0 (-45.6596, 32) -> (-49.6596, 28) centre (-45.6596, 28) ccw projected
  arc A1 (-45.6596, 32) -> (-49.6596, 28) centre (-45.6596, 28) ccw
  line L8 (-45.6596, 32) -> (-25.5, 32)
  point P0 (0, 0)
extrude "Extrusion108" cut sketch "Sketch114" against normal blind 6
sketch "Sketch115" plane through (0, 0, -59.3) normal (0, 0, -1) x (-1, 0, 0)
  line L0 (-50.9952, -38.1245) -> (29.0048, -38.1245)
  line L1 (29.0048, -38.1245) -> (29.0048, 81.8755)
  line L2 (29.0048, 81.8755) -> (-50.9952, 81.8755)
  line L3 (-50.9952, 81.8755) -> (-50.9952, -38.1245)
  point P0 (0, 0)
  dimension "d363" = 80
  dimension "d364" = 120
sketch "Sketch116" plane through (0, 0, 5.2) normal (0, 0, 1) x (1, 0, 0)
  line L0 (25.5, -33) -> (-24.5, -33) projected
  line L1 (25.5, -33) -> (50.5194, -24.1438)
  line L2 (50.5194, -24.1438) -> (50.8592, -10.1321)
  line L3 (50.8592, -10.1321) -> (25.5, -8.1902)
  line L4 (25.5, 26) -> (25.5, -13.2226) projected
  line L5 (25.5, -27) -> (25.5, -33) projected
  line L6 (25.5, -33) -> (25.5, -8.1902)
  line L7 (25.5, -33) -> (62.3665, -33)
  line L8 (62.3665, -33) -> (62.3665, 19.7655)
  line L9 (62.3665, 19.7655) -> (25.5, 19.7655)
  line L10 (25.5, 19.7655) -> (25.5, -33)
  line L11 (62.3665, 19.7655) -> (25.5, 19.7655)
  line L12 (25.5, 19.7655) -> (25.5, -84.5573)
  line L13 (25.5, -84.5573) -> (62.3665, -84.5573)
  line L14 (62.3665, -84.5573) -> (62.3665, 19.7655)
  point P0 (0, 0)
extrude "Extrusion109" add sketch "Sketch116" along normal blind 9 and the other way blind 6 contours L5 L6 L4 L3 L2 L1
sketch "Sketch117" plane through (50.8592, -10.1321, 14.2) normal (0.9997, -0.0242, 0) x (0, 0, -1)
  line L0 (1.2948, -7.0247) -> (1.2483, -7.0247)
  line L1 (0, 1.3265) -> (0, -23.476) projected
  line L2 (9, -23.476) -> (9, 1.3265) projected
  circle A0 centre (5.5, -7.0247) radius 2.55
  line L3 (0, -7.0247) -> (5.5, -7.0247)
  point P0 (14.2, 8.896)
  dimension "d387" = 5.5
  dimension "d388" = 5.1
extrude "Extrusion111" cut sketch "Sketch116" against normal blind 20 contours L1 L2 L3 L4 L9 L8 L7 | L7 L14 L13 L12
sketch "Sketch118" plane through (-24.5, -33, -59.3) normal (0, -1, 0) x (1, 0, 0)
  line L0 (75.3592, 73.5) -> (50, 73.5) projected
  line L1 (50, 64.5) -> (50, 73.5) projected
  line L2 (50, 73.5) -> (50, 64.5)
  line L3 (50, 64.5) -> (35, 64.5)
  line L4 (50, 73.5) -> (35, 64.5)
  line L5 (50, 73.5) -> (35, 73.5)
  line L6 (35, 73.5) -> (35, 64.5)
  point P0 (24.5, 59.3)
  dimension "d373" = 15
extrude "Extrusion112" add sketch "Sketch118" against normal blind 24.81 contours L3 L4 L1
sketch "Sketch119" plane through (0, 0, 5.2) normal (0, 0, 1) x (1, 0, 0)
  circle A0 centre (0, 0) radius 12.5
  dimension "d376" = 25
extrude "Extrusion113" cut sketch "Sketch119" along normal blind 24.81
extrude "Extrusion115" cut sketch "Sketch117" against normal blind 40
fillet "Fillet25" radius 15 4 edges at (-24.5, -30, -59.3) (25.5, -30, -59.3) (25.5, 29, -59.3) (-24.5, 29, -59.3)
sketch "Sketch124" plane through (0, 0, 5.2) normal (0, 0, 1) x (1, 0, 0)
  point P0 (0, 0)
sketch "Sketch125" plane through (0, 0, 5.2) normal (0, 0, 1) x (1, 0, 0)
  point P0 (0, 0)
sketch "Sketch126" plane through (12, -39, -10) normal (0, -1, 0) x (1, 0, 0)
  point P0 (-12, 10)
ref_plane "Work Plane3" through (-10.35, 26, -57) normal (0, 1, 0) x (1, 0, 0)
properties part number "C23[L][FD1]" material "Aluminum 6061"
